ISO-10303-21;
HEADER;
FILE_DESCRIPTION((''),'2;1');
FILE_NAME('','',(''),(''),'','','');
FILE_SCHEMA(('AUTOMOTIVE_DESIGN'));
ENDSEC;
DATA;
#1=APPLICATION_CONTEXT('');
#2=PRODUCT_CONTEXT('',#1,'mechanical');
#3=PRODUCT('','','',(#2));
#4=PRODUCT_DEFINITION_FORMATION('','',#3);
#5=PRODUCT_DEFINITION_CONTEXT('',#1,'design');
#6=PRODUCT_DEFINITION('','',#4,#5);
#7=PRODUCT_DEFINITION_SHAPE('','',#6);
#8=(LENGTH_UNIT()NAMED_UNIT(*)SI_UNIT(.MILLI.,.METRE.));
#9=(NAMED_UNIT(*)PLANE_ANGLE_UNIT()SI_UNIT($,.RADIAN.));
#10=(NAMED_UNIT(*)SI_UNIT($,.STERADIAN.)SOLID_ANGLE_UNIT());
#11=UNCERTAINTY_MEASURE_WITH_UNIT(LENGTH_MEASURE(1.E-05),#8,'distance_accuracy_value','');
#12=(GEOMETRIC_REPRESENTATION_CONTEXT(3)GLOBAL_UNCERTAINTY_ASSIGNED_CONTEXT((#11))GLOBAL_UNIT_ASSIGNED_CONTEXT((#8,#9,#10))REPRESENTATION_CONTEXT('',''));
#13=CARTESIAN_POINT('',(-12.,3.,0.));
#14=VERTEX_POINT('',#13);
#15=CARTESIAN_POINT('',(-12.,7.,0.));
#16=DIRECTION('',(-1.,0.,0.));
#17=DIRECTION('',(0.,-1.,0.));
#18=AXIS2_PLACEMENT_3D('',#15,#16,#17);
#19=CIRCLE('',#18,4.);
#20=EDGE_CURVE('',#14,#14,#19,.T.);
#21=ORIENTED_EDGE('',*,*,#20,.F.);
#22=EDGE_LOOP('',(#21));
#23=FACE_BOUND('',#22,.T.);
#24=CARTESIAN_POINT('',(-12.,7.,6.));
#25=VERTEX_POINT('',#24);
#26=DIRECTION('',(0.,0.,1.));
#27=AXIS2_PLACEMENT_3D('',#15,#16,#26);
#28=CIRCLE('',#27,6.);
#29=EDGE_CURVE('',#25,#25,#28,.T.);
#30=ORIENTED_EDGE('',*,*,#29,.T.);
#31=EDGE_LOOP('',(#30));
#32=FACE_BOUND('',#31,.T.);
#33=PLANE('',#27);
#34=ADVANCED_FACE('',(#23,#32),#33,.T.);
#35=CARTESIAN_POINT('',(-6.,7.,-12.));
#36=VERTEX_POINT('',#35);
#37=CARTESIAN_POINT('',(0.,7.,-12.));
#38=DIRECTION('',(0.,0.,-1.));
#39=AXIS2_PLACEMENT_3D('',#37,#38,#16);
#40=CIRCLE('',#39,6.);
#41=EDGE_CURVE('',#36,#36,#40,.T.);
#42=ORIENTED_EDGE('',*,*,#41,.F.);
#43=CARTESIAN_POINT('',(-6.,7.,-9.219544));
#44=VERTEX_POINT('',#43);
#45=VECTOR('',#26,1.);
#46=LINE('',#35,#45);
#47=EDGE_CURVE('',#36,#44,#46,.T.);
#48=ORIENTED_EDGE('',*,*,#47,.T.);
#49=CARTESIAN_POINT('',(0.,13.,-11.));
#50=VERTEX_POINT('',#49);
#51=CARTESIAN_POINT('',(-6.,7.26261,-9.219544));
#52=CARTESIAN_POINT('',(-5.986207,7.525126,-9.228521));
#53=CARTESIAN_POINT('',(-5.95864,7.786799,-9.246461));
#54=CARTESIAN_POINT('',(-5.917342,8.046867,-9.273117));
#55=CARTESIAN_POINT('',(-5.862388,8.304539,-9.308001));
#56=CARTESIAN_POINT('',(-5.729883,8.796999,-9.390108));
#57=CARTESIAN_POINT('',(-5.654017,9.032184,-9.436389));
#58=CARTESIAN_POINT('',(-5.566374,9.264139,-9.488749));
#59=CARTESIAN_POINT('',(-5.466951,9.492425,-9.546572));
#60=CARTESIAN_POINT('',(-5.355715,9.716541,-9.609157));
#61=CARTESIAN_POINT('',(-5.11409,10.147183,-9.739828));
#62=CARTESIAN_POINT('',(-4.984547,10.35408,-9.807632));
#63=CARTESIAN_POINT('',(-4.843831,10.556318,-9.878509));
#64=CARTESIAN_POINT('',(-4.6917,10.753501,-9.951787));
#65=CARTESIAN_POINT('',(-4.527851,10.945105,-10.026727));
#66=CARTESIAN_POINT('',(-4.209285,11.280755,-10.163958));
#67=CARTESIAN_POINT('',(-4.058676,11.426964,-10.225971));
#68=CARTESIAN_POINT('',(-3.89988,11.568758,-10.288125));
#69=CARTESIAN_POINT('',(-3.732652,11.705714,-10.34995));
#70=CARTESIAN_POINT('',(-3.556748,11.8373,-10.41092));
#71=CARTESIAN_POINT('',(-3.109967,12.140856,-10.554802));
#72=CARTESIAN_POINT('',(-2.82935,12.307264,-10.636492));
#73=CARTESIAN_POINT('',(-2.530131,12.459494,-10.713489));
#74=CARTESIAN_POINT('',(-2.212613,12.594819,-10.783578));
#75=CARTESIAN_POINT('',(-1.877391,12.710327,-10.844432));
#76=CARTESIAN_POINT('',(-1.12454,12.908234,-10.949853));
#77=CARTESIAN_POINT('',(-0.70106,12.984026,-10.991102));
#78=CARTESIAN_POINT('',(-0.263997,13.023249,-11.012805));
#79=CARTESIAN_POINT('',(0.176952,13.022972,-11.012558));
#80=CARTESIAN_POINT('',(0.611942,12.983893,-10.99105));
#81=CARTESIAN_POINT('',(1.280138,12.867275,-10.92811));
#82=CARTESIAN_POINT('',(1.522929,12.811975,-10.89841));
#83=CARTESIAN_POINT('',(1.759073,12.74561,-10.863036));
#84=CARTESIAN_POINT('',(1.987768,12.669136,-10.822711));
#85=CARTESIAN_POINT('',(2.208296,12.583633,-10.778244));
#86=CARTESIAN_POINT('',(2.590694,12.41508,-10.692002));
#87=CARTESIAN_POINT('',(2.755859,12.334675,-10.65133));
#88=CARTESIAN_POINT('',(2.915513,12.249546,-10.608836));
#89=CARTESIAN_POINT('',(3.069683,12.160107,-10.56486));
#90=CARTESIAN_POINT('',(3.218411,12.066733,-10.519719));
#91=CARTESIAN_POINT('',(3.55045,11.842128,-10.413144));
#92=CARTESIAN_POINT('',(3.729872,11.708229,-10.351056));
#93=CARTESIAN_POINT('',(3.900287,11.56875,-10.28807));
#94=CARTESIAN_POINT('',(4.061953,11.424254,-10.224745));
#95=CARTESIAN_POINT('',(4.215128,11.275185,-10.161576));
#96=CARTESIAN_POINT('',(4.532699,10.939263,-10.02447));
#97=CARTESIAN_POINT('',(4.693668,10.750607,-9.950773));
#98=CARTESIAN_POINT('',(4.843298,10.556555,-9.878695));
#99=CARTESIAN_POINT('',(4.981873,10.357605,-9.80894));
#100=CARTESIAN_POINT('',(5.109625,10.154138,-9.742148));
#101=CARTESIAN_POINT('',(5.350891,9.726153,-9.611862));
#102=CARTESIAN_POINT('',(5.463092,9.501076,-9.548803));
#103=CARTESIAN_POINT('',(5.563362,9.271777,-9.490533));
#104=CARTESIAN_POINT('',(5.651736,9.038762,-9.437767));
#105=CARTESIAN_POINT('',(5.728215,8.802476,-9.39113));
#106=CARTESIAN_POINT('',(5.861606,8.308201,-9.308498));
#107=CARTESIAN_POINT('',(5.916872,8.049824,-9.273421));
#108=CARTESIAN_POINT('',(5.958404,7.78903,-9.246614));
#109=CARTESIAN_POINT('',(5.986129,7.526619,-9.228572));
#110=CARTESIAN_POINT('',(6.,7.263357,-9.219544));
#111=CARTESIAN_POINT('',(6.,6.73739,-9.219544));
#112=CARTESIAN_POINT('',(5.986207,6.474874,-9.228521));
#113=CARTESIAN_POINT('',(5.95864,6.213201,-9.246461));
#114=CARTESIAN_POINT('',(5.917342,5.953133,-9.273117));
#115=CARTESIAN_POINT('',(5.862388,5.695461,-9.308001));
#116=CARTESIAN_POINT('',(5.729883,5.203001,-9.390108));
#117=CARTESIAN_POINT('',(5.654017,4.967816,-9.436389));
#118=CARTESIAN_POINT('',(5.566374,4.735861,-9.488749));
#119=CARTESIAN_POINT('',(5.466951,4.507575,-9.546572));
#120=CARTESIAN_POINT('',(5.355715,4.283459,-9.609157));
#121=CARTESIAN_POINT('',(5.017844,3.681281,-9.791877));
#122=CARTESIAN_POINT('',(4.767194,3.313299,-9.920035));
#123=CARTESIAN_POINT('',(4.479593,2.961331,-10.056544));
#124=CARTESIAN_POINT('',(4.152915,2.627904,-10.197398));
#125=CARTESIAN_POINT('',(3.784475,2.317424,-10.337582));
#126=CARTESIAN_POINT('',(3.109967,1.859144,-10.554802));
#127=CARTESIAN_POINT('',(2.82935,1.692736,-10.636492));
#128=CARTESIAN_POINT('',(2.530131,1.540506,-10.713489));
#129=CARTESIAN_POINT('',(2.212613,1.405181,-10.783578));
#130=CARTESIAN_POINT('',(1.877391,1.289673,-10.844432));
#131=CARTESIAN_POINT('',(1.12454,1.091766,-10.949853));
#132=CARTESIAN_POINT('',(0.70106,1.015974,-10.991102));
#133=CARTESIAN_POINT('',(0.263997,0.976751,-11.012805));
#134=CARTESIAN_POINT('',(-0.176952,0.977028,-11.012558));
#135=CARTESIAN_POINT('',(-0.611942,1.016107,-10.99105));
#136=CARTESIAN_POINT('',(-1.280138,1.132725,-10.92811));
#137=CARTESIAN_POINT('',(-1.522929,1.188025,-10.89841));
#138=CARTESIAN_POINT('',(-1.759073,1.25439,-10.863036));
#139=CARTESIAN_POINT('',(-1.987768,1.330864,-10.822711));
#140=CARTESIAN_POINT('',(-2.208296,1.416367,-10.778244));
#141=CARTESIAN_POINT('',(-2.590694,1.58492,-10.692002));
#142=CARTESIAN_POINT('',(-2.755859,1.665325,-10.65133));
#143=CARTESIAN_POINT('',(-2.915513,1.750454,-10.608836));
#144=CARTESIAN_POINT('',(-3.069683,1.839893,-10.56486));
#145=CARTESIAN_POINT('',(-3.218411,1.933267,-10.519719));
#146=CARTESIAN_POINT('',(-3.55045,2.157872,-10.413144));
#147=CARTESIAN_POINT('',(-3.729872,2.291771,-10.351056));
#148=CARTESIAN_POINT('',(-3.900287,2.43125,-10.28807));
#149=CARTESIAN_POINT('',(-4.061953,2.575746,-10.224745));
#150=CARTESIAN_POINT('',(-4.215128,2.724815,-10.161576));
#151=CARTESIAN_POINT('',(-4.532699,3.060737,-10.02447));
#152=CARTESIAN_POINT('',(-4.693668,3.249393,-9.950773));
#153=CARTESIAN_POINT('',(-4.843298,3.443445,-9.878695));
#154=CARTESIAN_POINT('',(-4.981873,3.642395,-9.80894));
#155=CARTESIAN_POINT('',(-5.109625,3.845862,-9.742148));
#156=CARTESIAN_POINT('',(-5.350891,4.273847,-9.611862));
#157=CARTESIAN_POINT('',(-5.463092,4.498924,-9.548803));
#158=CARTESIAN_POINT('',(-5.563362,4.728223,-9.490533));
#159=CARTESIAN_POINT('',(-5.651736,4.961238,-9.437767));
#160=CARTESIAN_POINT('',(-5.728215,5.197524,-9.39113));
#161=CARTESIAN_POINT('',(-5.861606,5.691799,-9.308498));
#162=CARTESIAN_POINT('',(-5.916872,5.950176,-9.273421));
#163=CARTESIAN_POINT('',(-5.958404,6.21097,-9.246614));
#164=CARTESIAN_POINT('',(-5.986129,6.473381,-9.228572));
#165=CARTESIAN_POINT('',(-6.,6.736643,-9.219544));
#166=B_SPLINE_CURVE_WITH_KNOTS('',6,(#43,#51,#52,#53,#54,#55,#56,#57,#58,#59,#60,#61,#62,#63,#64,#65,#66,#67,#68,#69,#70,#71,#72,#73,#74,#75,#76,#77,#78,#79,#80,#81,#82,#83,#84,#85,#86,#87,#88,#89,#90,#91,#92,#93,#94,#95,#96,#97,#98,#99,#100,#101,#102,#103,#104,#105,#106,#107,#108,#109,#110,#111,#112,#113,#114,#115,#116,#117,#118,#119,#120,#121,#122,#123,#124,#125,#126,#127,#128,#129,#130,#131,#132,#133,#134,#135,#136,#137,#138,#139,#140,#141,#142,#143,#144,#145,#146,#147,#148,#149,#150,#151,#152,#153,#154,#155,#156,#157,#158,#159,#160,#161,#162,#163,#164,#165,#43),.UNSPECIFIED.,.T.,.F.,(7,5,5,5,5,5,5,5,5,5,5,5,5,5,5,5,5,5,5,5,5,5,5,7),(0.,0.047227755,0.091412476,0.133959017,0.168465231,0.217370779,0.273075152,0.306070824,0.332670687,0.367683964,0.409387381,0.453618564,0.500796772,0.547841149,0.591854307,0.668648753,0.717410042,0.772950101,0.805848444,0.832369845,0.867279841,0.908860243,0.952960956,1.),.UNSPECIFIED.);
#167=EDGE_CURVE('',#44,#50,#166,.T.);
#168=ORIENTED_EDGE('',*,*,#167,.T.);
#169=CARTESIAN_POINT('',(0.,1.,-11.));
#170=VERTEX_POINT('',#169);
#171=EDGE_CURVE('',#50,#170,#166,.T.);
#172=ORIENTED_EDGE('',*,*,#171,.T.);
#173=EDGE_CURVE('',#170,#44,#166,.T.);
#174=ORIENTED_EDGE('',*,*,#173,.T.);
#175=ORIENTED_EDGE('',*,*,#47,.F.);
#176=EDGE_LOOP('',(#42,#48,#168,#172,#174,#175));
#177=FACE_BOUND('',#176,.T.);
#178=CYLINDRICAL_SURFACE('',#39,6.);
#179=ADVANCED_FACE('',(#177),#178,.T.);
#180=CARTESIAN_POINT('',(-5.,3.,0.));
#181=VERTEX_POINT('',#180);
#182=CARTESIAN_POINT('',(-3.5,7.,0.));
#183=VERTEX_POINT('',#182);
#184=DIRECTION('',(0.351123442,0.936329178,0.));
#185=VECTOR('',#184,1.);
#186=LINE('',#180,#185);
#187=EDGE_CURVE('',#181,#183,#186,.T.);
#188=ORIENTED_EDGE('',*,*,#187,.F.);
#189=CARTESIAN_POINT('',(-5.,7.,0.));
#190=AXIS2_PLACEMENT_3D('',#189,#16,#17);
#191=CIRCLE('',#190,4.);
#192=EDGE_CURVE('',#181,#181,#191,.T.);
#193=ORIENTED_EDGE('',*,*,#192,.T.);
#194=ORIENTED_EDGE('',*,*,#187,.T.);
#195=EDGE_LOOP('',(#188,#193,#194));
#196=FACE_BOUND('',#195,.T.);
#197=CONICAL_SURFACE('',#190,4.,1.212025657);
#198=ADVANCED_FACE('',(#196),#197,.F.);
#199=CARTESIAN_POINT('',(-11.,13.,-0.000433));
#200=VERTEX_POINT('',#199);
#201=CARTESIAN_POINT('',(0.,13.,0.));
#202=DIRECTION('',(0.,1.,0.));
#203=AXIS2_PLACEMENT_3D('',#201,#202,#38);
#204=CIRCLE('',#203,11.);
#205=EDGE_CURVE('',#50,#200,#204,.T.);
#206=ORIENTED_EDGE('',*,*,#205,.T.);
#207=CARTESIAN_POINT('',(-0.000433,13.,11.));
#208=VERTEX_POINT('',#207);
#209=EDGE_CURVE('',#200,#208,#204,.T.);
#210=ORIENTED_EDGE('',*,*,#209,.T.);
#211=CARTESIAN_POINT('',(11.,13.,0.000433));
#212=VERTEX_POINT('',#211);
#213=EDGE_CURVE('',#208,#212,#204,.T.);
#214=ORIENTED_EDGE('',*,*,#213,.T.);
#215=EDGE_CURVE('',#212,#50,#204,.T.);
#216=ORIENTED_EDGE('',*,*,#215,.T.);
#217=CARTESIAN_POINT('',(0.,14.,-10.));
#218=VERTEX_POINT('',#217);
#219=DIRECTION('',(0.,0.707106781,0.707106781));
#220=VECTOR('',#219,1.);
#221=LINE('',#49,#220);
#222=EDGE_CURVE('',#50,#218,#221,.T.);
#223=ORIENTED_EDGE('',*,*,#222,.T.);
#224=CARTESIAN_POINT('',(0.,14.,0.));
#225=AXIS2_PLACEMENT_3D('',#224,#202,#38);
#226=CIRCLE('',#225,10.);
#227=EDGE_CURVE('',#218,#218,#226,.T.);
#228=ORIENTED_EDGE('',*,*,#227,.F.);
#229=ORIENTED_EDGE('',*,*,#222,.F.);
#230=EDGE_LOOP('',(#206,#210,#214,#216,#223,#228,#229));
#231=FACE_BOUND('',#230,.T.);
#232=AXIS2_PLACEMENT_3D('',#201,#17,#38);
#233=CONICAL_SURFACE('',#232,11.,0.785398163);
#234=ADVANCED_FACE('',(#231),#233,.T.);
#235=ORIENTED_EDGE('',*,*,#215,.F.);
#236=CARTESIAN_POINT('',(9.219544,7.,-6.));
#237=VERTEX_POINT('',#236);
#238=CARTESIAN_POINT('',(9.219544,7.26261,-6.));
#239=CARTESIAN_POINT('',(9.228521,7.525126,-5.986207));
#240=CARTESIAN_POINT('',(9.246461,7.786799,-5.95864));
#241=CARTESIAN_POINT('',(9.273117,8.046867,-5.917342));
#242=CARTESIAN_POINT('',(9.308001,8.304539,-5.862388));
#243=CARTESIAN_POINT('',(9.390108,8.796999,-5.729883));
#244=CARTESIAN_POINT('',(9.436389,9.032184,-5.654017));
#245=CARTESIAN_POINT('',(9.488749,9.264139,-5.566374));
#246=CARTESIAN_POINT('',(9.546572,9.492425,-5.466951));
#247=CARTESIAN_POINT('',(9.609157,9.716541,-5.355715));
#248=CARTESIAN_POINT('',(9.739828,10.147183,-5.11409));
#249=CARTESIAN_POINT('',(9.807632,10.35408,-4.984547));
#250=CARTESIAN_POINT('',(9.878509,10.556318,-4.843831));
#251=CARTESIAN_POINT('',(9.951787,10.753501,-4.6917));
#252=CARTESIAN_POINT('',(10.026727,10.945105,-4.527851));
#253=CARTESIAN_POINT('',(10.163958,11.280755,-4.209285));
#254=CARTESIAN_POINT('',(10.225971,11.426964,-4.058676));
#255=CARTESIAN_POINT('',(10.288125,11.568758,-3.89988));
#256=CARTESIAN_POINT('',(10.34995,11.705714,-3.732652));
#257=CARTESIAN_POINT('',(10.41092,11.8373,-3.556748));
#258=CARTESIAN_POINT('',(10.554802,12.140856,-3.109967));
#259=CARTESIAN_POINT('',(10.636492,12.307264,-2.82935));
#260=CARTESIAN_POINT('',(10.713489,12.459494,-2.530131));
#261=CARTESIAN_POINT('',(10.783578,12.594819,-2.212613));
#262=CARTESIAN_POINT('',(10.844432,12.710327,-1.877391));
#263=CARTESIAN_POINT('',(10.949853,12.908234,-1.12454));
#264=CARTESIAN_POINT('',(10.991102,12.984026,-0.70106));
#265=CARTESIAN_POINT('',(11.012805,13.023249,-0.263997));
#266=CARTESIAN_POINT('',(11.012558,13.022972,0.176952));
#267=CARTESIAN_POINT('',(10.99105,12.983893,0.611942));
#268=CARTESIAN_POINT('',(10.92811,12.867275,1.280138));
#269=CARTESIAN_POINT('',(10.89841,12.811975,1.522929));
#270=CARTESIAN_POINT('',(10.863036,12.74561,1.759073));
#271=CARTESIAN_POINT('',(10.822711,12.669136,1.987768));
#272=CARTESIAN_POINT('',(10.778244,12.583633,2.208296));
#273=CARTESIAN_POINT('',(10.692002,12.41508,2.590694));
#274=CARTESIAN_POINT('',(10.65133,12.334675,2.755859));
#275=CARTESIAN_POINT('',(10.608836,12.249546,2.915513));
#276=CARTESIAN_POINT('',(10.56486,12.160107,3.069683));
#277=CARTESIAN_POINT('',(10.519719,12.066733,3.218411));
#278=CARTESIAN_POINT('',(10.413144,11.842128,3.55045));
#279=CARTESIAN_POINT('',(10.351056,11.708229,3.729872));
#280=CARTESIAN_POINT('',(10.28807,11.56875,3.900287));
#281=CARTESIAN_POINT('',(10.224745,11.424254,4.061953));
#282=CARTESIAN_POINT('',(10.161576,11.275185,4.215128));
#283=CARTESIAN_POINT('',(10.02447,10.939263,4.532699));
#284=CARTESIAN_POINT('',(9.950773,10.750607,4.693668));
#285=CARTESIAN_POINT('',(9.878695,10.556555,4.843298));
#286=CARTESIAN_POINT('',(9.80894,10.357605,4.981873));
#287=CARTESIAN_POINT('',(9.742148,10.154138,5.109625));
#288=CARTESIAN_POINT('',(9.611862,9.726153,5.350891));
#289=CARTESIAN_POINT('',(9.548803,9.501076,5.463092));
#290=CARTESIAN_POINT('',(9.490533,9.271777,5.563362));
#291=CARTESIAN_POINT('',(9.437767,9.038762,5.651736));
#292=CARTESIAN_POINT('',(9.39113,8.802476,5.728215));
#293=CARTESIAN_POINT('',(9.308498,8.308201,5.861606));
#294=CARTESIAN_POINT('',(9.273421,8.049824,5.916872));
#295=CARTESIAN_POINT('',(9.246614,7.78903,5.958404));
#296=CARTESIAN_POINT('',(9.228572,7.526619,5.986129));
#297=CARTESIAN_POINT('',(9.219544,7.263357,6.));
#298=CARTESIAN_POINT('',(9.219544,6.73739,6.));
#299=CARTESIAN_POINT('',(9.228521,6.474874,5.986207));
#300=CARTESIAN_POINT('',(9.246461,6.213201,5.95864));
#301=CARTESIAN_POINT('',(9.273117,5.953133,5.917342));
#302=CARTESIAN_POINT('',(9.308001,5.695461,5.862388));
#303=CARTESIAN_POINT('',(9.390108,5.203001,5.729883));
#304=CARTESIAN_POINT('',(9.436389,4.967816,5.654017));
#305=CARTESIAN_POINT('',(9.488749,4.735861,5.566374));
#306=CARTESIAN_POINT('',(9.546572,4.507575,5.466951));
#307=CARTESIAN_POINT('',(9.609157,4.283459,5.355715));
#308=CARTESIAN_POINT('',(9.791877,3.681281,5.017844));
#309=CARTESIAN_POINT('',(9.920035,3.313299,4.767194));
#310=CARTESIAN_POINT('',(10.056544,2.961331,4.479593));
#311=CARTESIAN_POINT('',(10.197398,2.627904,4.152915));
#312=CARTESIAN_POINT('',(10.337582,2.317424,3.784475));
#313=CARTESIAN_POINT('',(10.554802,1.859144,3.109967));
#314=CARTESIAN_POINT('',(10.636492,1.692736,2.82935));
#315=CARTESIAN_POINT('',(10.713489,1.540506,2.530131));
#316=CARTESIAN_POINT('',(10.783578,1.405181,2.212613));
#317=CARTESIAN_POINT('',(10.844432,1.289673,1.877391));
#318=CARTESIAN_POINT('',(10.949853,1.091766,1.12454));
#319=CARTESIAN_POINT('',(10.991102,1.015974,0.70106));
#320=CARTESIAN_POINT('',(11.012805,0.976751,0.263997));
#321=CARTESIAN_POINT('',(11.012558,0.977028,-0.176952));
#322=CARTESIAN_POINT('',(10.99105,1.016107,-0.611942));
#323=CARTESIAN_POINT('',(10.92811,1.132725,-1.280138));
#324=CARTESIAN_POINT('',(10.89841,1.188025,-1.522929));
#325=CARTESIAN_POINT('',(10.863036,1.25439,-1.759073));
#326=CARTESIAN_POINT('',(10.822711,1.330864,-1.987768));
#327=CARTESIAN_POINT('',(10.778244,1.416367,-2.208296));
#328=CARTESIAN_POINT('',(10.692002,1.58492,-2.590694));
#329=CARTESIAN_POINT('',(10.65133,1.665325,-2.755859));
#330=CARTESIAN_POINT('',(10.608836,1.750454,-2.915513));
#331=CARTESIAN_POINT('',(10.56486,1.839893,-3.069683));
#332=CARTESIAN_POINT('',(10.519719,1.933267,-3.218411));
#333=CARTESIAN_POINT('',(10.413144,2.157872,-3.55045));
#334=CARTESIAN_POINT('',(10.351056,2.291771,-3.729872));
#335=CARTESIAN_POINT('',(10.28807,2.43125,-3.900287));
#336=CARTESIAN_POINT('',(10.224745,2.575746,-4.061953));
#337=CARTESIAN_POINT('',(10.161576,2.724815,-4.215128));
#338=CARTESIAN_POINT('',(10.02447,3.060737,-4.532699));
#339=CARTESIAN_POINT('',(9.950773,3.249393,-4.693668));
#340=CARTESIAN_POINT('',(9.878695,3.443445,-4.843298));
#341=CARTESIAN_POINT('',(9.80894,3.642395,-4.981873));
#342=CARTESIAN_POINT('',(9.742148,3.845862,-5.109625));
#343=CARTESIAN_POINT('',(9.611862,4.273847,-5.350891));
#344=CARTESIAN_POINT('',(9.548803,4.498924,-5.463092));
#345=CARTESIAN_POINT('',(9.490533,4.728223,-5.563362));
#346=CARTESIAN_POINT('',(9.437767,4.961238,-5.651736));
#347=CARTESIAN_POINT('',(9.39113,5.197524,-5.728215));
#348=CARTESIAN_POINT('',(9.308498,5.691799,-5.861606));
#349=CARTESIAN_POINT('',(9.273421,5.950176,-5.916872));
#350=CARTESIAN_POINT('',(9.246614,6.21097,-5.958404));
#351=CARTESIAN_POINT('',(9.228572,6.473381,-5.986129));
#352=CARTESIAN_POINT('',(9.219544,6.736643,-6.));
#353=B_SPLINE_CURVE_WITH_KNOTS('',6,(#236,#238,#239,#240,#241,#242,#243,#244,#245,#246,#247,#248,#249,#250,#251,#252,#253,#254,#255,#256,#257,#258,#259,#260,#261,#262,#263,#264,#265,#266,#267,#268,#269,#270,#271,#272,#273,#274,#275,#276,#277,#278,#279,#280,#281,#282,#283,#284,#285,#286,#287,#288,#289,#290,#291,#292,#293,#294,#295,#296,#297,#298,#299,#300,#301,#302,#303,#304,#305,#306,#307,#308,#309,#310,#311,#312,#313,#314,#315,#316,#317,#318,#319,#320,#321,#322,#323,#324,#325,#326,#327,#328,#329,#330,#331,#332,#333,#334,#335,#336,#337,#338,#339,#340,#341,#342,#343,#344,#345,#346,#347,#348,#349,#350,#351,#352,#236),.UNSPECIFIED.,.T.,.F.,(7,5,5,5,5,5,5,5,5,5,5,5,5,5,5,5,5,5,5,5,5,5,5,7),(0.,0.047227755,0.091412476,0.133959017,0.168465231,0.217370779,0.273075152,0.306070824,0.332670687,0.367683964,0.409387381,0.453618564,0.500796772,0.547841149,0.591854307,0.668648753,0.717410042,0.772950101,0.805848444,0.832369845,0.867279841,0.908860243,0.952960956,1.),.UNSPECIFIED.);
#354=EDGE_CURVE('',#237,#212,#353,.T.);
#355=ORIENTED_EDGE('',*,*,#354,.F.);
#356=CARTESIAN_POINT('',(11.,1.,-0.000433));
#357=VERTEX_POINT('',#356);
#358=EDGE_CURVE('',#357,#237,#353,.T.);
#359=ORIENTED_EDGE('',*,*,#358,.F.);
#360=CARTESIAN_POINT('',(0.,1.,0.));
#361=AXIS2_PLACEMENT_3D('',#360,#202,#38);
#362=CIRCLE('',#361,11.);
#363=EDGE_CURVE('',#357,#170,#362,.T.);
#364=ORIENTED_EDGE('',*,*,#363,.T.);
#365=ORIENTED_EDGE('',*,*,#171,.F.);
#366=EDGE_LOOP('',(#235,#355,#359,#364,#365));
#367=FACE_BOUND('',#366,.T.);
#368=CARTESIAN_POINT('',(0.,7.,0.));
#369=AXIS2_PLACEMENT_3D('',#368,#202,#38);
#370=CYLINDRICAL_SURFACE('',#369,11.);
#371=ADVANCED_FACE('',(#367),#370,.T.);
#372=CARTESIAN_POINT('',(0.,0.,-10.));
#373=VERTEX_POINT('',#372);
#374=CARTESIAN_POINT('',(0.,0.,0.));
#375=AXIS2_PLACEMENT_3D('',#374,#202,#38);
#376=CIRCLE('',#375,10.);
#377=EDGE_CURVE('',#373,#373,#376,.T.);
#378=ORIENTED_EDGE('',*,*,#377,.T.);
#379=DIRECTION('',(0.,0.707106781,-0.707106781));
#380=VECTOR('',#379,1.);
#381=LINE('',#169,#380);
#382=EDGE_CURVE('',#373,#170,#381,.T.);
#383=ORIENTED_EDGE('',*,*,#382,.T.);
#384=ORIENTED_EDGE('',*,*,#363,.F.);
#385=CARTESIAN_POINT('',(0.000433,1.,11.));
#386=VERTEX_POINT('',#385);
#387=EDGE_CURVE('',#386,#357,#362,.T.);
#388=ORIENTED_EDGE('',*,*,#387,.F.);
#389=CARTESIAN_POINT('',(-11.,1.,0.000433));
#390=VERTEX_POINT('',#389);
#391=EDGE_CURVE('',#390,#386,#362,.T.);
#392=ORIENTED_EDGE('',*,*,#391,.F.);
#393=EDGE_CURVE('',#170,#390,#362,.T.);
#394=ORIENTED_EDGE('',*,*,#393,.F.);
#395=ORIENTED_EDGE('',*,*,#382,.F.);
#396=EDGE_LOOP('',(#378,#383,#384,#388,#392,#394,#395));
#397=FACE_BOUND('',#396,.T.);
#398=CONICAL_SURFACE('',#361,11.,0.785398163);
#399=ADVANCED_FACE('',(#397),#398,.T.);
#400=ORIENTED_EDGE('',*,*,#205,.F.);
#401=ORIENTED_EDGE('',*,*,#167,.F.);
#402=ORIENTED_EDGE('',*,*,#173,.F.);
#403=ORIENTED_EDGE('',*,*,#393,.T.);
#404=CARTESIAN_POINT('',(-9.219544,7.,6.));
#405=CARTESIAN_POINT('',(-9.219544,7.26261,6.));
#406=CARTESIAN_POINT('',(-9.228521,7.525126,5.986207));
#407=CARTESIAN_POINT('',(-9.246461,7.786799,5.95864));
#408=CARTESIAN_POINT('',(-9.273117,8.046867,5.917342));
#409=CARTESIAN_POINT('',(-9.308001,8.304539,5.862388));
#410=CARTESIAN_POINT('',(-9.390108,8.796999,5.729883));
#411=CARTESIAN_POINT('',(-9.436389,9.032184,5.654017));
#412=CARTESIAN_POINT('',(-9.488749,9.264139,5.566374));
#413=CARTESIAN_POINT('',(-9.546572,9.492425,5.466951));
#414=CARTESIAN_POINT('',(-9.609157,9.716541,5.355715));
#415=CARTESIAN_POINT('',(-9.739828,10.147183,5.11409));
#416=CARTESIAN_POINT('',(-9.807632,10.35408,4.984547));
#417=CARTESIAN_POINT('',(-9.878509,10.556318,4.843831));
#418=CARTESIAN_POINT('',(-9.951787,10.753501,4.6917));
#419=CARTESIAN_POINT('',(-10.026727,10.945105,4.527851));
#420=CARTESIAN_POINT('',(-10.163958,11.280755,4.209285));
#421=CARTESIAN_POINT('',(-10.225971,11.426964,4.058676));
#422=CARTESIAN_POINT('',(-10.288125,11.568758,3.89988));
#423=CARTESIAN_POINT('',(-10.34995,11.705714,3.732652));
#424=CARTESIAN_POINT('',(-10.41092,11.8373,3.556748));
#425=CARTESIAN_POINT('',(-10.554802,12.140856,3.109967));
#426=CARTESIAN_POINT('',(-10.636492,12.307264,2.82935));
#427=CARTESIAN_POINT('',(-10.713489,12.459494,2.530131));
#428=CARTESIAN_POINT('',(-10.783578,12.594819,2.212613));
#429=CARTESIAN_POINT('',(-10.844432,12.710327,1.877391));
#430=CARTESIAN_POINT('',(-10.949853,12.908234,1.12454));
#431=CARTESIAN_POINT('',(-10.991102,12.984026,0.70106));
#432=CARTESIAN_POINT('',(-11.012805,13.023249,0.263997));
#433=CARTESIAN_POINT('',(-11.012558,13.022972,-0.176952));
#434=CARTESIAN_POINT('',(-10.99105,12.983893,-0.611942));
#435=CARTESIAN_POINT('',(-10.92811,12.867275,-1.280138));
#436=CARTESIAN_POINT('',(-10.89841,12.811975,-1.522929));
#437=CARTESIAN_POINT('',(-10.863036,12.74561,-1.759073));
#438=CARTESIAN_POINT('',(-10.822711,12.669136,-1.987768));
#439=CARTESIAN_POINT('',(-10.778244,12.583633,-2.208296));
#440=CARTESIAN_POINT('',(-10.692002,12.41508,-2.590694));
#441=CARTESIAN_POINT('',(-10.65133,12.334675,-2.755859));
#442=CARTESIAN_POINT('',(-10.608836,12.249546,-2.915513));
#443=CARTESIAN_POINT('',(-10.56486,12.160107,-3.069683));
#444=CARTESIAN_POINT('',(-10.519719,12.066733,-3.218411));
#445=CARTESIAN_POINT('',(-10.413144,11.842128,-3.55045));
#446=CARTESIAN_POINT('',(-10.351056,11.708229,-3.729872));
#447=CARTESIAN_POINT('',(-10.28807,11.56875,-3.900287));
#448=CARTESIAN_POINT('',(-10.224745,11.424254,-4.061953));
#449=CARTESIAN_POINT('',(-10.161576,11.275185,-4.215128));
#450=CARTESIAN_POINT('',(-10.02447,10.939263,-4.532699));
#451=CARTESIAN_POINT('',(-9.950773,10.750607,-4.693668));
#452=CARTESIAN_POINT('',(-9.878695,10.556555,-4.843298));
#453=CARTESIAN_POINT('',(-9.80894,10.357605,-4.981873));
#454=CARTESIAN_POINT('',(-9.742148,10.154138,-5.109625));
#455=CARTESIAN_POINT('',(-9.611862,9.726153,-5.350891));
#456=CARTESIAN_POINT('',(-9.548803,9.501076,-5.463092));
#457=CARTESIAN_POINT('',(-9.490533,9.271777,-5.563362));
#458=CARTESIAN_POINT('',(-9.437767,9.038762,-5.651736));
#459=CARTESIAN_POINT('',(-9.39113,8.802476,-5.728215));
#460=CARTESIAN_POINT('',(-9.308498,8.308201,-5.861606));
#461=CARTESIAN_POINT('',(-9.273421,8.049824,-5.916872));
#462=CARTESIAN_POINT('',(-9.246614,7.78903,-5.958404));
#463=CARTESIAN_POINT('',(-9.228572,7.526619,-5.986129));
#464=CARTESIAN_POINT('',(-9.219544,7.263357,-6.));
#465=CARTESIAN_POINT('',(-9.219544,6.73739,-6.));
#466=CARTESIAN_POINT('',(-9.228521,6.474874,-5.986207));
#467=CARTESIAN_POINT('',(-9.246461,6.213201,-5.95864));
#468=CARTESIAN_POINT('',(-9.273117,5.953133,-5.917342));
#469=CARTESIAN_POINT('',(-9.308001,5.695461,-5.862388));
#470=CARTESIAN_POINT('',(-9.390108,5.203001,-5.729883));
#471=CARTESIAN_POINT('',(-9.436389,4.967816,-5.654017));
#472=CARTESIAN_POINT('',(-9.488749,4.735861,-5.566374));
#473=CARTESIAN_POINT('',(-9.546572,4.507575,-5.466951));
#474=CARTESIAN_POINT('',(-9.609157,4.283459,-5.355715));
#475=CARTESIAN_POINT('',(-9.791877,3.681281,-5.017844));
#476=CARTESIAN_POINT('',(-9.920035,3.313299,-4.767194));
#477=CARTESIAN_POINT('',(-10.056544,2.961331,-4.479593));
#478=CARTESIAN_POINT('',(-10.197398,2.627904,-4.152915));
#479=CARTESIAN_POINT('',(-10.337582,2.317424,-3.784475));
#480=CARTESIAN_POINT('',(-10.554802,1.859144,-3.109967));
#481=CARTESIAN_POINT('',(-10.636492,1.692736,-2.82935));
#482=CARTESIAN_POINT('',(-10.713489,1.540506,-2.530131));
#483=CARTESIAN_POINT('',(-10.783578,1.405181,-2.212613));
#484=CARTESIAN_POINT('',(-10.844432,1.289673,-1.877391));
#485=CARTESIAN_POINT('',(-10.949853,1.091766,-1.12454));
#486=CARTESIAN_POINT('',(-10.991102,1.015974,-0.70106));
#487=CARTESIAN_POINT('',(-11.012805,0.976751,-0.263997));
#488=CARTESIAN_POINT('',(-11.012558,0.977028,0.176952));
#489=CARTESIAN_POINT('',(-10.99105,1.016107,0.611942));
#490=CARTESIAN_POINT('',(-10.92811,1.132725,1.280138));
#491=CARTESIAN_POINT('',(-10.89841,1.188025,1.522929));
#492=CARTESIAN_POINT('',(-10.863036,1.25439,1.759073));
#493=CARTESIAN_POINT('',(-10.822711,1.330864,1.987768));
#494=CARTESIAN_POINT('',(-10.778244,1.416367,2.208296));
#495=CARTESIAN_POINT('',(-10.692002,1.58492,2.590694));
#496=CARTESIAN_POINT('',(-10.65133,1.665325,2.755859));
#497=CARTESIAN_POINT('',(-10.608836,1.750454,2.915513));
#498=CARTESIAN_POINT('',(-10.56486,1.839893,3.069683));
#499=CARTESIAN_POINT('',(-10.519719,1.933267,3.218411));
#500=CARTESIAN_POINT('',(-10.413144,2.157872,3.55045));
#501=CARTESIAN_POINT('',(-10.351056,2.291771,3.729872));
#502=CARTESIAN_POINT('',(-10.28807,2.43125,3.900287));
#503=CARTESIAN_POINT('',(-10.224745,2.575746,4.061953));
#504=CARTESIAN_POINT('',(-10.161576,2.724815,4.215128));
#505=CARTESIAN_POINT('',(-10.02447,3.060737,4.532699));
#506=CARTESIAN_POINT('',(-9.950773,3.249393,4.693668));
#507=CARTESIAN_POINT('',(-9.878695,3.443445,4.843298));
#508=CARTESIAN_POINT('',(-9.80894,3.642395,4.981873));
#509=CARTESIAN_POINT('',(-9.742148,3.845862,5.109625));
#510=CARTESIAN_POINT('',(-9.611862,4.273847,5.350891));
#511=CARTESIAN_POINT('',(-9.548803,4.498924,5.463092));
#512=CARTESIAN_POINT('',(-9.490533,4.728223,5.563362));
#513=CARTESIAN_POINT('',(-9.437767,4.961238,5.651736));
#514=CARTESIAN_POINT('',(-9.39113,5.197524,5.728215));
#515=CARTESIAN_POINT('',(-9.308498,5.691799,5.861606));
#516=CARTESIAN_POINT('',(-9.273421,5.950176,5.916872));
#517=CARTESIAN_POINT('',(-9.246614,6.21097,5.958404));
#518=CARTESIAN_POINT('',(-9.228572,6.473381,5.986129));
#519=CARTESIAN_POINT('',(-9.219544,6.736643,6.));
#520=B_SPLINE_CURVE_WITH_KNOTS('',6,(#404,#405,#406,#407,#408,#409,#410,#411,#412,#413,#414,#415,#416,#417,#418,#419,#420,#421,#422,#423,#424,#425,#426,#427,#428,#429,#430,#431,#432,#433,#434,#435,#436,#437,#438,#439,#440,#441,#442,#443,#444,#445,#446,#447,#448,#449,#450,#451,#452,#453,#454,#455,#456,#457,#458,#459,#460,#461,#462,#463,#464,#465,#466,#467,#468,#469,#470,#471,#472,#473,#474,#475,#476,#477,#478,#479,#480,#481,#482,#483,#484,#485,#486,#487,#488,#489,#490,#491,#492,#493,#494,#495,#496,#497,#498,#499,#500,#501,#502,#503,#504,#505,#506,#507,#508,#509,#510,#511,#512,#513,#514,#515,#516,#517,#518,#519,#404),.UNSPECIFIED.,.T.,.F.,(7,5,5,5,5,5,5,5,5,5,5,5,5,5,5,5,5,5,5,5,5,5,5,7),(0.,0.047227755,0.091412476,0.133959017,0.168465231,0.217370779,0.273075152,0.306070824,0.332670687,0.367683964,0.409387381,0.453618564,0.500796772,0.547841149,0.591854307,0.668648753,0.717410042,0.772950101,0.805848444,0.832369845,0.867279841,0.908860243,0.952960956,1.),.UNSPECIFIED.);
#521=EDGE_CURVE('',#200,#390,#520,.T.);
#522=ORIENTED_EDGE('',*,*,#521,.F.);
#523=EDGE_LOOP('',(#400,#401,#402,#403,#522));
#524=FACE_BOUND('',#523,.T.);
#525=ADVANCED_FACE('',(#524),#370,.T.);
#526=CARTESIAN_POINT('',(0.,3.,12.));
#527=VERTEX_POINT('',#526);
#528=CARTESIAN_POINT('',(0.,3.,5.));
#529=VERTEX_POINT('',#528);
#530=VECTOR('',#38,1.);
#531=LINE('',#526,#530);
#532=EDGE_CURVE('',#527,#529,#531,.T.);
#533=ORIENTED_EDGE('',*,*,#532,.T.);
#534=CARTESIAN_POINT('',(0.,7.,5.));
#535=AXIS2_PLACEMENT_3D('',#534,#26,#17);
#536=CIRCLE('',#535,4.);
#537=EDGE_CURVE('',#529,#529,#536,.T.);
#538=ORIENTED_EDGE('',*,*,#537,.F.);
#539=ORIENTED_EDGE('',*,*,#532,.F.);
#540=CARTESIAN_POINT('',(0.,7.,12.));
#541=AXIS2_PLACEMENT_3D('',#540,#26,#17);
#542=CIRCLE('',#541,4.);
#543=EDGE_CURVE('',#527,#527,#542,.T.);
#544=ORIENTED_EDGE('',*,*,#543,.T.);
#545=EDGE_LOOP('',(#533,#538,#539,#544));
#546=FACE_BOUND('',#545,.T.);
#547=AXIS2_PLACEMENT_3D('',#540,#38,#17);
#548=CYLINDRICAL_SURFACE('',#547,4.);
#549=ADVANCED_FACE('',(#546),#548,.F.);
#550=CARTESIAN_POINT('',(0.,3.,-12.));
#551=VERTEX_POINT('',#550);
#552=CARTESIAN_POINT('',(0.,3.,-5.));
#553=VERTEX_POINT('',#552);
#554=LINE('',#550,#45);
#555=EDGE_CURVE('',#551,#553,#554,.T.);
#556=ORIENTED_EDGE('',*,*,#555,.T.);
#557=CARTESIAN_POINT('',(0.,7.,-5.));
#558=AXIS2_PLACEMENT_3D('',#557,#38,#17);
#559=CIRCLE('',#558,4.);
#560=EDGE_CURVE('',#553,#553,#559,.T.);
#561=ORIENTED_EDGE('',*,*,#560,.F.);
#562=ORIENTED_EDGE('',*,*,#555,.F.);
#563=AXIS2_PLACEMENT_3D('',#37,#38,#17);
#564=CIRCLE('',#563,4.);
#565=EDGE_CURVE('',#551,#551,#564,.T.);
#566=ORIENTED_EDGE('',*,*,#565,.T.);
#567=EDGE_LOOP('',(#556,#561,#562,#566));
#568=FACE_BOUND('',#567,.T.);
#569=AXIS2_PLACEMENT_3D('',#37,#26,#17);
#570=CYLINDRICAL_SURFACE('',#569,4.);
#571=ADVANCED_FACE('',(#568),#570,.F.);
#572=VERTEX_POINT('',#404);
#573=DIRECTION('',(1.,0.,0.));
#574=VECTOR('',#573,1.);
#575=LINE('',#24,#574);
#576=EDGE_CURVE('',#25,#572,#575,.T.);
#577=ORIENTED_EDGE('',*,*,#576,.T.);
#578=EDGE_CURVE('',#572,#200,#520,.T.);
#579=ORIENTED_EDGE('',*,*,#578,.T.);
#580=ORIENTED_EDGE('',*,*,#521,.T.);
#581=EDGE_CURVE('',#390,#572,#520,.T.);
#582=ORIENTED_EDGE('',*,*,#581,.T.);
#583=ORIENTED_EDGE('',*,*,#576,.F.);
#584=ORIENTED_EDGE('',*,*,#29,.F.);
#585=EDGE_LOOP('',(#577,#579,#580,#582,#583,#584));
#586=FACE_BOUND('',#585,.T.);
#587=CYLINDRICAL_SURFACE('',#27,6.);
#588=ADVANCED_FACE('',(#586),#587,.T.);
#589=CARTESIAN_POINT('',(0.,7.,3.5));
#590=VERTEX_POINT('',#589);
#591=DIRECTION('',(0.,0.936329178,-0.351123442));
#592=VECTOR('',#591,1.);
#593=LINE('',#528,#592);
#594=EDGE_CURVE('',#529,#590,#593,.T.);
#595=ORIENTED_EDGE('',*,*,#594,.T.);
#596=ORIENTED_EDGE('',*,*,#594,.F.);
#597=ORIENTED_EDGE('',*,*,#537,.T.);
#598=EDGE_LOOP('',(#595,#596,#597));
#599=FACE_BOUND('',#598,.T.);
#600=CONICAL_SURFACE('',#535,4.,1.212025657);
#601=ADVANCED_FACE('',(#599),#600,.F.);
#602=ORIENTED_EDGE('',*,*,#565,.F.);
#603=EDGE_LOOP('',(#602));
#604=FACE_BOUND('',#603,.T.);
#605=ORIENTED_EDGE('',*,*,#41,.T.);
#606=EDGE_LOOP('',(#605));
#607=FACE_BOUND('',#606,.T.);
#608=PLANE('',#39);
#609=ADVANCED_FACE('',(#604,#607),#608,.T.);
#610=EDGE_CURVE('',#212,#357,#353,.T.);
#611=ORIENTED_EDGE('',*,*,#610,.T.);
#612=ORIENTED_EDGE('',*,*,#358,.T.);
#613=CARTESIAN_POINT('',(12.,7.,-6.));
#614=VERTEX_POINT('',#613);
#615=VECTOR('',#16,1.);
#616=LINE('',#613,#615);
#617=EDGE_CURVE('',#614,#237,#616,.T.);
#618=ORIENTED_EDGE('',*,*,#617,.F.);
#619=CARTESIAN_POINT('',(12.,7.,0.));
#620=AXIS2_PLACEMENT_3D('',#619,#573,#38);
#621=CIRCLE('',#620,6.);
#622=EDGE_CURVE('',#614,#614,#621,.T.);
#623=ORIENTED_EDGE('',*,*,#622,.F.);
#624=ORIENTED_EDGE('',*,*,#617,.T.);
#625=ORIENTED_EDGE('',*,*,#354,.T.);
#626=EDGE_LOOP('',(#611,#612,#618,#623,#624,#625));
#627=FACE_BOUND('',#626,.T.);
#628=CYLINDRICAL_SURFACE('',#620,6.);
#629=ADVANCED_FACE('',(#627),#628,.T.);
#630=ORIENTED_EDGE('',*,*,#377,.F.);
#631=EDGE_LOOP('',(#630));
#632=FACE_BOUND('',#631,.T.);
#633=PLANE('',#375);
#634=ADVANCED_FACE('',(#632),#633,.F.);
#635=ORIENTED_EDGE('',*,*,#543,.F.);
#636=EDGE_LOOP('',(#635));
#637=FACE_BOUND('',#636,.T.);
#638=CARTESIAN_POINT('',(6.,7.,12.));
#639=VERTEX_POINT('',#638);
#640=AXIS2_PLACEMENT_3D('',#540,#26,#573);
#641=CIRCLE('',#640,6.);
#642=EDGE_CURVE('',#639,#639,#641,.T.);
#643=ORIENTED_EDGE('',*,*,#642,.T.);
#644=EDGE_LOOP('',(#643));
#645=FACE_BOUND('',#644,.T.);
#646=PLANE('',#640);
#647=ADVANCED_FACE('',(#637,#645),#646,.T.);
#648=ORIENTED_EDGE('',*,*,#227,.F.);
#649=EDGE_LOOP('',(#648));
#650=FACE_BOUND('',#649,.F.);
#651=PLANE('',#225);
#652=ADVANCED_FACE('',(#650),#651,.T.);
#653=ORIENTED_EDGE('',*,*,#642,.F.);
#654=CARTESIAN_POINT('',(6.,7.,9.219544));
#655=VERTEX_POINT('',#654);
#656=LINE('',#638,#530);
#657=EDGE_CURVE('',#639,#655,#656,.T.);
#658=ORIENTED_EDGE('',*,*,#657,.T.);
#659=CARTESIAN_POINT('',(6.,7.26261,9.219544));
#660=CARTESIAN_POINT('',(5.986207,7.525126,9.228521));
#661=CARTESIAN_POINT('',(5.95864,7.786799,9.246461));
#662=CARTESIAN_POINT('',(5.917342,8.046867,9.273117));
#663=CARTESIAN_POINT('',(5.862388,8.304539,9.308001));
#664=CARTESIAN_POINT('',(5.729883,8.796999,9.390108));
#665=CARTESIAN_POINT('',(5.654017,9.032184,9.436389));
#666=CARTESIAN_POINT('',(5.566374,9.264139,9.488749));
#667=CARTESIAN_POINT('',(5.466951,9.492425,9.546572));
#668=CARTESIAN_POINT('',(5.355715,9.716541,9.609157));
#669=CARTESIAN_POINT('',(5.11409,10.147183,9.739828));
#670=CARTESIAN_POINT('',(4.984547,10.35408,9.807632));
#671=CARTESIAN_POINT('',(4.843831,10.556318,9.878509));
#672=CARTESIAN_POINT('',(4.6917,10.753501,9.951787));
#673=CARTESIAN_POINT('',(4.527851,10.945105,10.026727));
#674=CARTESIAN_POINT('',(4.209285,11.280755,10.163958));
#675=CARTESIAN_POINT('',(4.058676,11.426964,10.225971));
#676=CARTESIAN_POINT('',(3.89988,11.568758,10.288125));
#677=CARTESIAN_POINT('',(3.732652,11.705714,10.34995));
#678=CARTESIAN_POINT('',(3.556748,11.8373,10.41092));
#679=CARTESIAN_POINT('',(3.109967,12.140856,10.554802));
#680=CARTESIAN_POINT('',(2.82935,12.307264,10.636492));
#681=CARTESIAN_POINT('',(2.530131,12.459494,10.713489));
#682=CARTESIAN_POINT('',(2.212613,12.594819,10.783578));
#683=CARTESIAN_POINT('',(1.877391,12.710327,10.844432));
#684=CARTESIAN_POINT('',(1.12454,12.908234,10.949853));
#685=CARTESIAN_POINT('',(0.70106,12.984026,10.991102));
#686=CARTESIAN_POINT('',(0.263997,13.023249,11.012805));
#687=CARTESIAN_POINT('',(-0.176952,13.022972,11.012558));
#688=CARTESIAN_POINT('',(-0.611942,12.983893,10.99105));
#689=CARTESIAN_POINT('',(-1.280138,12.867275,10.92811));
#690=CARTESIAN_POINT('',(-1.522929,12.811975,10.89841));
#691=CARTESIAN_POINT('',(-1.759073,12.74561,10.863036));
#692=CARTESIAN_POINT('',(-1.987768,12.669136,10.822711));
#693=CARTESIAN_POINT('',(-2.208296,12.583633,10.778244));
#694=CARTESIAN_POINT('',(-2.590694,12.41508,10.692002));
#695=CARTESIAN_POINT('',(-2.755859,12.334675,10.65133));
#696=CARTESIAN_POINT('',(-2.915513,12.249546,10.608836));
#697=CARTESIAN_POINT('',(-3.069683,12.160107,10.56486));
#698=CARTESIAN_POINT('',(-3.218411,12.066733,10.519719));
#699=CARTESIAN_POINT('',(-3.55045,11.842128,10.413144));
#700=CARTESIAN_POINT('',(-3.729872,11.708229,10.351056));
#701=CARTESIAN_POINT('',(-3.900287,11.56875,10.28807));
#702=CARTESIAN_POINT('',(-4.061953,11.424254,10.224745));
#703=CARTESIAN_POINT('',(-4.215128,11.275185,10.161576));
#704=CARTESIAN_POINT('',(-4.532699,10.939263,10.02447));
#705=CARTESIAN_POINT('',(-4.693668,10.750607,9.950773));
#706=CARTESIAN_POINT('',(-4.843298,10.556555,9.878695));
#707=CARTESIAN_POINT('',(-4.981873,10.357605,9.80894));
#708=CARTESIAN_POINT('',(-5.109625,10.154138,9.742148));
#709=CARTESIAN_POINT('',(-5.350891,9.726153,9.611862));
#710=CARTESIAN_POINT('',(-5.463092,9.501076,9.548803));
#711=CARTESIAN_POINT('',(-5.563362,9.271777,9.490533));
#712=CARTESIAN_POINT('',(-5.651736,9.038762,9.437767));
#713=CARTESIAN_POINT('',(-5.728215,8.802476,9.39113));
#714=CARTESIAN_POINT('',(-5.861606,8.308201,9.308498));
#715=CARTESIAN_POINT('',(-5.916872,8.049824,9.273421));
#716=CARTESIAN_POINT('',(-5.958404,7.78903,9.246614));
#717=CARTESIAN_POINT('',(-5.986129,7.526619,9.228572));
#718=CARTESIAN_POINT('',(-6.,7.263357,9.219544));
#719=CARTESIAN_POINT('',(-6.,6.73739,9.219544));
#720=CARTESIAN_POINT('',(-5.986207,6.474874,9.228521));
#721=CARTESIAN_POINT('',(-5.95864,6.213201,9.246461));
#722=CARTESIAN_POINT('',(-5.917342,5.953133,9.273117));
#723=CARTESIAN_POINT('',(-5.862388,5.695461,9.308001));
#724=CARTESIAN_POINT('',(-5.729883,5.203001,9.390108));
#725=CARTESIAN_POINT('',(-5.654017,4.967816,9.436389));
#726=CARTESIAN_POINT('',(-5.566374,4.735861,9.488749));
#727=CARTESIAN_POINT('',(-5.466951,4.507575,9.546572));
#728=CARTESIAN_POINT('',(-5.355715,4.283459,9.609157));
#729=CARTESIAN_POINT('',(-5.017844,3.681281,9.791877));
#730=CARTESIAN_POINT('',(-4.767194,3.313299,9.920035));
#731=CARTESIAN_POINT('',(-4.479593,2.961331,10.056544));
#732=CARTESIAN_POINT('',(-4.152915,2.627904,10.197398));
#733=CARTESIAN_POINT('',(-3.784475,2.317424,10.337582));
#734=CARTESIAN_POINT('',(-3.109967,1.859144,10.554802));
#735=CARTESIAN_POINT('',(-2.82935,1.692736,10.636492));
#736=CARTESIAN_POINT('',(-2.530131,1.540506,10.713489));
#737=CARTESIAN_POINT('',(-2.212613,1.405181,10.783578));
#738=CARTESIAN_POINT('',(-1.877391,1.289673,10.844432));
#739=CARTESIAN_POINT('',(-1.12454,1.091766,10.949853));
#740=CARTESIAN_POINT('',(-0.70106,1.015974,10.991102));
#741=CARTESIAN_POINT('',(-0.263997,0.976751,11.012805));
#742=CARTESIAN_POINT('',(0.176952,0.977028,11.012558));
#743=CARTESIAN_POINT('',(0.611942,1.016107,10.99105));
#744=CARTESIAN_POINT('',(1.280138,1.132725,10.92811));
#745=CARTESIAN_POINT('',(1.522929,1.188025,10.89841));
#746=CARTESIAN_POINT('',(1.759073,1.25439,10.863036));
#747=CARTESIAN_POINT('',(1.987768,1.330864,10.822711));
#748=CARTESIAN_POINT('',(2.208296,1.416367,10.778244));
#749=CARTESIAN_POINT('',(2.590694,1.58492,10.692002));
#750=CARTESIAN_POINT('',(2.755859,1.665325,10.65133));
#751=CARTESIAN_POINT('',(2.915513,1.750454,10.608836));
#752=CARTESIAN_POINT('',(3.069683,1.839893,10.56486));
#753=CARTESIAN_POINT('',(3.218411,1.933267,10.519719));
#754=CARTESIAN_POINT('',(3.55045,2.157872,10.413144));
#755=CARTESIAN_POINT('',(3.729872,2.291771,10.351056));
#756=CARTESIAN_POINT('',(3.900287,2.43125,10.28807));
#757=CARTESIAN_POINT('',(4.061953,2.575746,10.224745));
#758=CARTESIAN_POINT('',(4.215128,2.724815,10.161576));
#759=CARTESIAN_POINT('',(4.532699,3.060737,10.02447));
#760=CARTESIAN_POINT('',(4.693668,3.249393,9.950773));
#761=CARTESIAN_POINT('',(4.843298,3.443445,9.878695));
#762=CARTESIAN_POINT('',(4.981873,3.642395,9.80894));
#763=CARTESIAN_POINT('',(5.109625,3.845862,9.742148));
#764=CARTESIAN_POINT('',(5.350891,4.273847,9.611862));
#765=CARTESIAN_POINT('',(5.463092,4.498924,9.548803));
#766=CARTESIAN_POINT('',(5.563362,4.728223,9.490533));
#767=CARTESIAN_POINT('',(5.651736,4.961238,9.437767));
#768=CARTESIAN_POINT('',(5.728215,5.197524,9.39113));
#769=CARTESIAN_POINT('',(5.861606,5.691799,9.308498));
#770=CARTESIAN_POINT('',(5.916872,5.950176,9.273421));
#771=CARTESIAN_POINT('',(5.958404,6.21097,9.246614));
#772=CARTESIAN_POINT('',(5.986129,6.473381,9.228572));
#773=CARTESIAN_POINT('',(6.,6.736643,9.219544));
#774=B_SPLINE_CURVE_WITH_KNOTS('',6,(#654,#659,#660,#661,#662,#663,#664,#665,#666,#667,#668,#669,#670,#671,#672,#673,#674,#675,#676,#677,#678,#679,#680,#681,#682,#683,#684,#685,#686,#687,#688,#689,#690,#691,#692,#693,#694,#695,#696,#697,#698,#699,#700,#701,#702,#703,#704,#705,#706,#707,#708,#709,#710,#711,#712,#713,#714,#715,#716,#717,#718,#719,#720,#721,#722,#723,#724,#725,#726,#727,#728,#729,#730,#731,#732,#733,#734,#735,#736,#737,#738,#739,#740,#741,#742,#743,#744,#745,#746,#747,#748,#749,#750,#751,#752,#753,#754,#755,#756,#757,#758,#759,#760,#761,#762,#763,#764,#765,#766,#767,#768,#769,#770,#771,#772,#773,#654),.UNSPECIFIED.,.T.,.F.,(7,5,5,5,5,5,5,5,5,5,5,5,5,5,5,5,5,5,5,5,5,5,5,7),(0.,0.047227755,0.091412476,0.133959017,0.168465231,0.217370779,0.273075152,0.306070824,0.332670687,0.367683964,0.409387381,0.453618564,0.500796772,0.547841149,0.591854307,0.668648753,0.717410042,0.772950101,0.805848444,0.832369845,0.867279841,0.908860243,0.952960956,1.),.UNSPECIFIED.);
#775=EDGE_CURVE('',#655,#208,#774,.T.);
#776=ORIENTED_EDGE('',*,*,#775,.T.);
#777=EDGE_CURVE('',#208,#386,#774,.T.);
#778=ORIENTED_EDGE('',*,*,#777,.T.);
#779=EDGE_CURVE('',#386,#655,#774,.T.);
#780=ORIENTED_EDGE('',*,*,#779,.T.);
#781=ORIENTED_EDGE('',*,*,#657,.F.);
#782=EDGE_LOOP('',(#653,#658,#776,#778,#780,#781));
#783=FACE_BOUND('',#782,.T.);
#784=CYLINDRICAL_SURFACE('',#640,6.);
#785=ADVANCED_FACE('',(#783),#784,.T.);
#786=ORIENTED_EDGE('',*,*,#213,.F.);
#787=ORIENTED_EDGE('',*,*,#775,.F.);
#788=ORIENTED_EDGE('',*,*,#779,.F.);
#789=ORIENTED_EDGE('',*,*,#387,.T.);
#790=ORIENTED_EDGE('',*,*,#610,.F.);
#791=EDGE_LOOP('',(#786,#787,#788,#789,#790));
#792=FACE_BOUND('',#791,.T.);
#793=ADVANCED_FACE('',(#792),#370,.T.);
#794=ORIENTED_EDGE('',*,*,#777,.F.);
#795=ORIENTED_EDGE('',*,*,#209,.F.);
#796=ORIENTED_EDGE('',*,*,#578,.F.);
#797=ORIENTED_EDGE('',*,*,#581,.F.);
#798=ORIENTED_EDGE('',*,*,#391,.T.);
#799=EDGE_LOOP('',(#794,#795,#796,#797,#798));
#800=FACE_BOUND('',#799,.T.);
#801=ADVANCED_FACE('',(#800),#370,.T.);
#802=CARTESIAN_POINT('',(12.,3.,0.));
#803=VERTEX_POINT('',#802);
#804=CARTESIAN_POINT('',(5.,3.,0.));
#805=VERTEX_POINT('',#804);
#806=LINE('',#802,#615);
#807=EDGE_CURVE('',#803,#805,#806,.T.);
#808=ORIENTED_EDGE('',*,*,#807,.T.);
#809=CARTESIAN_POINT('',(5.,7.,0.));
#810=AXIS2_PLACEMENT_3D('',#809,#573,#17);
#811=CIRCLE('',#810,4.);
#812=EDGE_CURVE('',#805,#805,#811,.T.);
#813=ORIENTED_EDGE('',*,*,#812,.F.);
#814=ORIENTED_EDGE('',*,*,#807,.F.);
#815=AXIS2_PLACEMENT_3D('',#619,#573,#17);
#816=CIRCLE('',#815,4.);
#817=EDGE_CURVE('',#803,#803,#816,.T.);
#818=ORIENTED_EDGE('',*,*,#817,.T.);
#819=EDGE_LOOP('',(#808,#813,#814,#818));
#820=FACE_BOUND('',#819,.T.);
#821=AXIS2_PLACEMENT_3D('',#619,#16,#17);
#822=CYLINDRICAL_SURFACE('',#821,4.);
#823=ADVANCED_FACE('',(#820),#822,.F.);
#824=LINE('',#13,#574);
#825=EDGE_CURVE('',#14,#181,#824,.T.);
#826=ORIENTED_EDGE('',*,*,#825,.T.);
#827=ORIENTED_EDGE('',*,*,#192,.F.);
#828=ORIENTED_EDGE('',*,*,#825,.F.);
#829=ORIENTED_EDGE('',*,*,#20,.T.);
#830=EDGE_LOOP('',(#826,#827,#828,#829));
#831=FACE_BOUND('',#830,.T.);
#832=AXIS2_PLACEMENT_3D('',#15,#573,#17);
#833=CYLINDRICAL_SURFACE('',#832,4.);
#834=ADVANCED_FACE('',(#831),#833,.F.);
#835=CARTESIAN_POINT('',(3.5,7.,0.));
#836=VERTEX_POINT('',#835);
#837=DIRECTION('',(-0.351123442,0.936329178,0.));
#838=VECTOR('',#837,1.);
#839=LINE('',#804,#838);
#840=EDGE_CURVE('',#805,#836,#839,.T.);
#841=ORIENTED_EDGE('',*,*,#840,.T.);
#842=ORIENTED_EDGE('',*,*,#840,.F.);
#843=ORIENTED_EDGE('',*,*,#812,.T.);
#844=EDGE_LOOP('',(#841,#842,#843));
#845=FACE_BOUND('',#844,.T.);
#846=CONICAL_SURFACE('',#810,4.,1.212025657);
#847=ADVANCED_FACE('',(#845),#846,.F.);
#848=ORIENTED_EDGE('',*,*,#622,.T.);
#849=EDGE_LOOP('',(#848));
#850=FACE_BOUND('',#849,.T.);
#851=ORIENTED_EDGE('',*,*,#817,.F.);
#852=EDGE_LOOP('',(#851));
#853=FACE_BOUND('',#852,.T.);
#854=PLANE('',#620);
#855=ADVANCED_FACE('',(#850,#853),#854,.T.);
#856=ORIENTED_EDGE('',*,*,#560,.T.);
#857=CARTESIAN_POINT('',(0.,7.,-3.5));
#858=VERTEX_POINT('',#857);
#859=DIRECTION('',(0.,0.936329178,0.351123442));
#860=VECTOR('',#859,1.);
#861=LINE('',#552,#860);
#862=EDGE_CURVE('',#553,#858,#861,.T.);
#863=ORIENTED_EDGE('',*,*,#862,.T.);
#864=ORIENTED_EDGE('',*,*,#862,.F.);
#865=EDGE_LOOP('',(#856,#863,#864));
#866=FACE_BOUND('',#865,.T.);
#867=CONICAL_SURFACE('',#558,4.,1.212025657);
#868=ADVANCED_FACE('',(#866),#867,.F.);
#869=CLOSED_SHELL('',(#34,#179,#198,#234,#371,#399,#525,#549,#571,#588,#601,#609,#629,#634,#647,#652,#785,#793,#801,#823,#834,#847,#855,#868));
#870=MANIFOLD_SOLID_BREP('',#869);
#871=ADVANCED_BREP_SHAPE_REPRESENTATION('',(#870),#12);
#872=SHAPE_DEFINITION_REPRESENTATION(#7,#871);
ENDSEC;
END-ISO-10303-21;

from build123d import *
from build123d.topology import SkipClean

# Parameters (mm, degrees)
CROQUIS1_W                   = 11
CROQUIS1_H                   = 14
CHAFL_N1_SIZE                = 1
SALIENTE_EXTRUIR1_REACH      = 31.086
SALIENTE_EXTRUIR1_END_RADIUS = 11
CROQUIS2_R                   = 6
MATRIZC1_COUNT               = 4
MATRIZC4_COUNT               = 4


with BuildPart() as part:
    # Croquis1 → Revolución1 (revolve)
    with BuildSketch(Plane(origin=(0, 0, 0), x_dir=(0, 0, -1), z_dir=(1, 0, 0))):
        with Locations((5.5, 7)):
            Rectangle(CROQUIS1_W, CROQUIS1_H)
    revolve(axis=Axis((0, 0, 0), (0, 1, 0)))

    # Chaflán1
    chafl_n1_edges = [part.edges().sort_by_distance(p)[0] for p in [
        (0, 0, 11),
        (0, 14, 11),
    ]]
    chamfer(chafl_n1_edges, length=CHAFL_N1_SIZE)

    # Saliente-Extruir1: up to this cylinder (the profile starts outside it)
    with SkipClean():  # the faces are left unmerged after this step: merging them gives an invalid solid
        saliente_extruir1_end = Plane(origin=(0, 7, 0), z_dir=(0, -1, 0)) * Cylinder(SALIENTE_EXTRUIR1_END_RADIUS, 85.172, mode=Mode.PRIVATE)
        # Croquis2 → Saliente-Extruir1 (add, up to the surface)
        with BuildSketch(Plane.XY.offset(12), mode=Mode.PRIVATE) as saliente_extruir1_sk1:
            with Locations((0, 7)):
                Circle(CROQUIS2_R)
        saliente_extruir1_tool1 = extrude(saliente_extruir1_sk1.sketch, amount=-SALIENTE_EXTRUIR1_REACH, mode=Mode.PRIVATE) - saliente_extruir1_end
        saliente_extruir1 = saliente_extruir1_tool1.solids().sort_by_distance((0, 7, 12))[0]
        add(saliente_extruir1)

    # MatrizC1: Saliente-Extruir1 ×4 about axis
    matrizc1_axis = Axis((0, 0, 0), (0, 1, 0))
    for i in range(1, MATRIZC1_COUNT):
        add(saliente_extruir1.rotate(matrizc1_axis, i * 360 / MATRIZC1_COUNT))

    # Croquis4 → Cortar-Revolución1 (revolve, cut)
    with BuildSketch(Plane.XY):
        Polygon((3.5, 7), (12, 7), (12, 3), (5, 3), align=None)
    cortar_revoluci_n1 = revolve(axis=Axis((3.5, 7, 0), (1, 0, 0)), mode=Mode.SUBTRACT)

    # MatrizC4: Cortar-Revolución1 ×4 about axis
    matrizc4_axis = Axis((0, 14, 0), (0, 1, 0))
    for i in range(1, MATRIZC4_COUNT):
        add(cortar_revoluci_n1.rotate(matrizc4_axis, i * 360 / MATRIZC4_COUNT), mode=Mode.SUBTRACT)


solid = part.part
